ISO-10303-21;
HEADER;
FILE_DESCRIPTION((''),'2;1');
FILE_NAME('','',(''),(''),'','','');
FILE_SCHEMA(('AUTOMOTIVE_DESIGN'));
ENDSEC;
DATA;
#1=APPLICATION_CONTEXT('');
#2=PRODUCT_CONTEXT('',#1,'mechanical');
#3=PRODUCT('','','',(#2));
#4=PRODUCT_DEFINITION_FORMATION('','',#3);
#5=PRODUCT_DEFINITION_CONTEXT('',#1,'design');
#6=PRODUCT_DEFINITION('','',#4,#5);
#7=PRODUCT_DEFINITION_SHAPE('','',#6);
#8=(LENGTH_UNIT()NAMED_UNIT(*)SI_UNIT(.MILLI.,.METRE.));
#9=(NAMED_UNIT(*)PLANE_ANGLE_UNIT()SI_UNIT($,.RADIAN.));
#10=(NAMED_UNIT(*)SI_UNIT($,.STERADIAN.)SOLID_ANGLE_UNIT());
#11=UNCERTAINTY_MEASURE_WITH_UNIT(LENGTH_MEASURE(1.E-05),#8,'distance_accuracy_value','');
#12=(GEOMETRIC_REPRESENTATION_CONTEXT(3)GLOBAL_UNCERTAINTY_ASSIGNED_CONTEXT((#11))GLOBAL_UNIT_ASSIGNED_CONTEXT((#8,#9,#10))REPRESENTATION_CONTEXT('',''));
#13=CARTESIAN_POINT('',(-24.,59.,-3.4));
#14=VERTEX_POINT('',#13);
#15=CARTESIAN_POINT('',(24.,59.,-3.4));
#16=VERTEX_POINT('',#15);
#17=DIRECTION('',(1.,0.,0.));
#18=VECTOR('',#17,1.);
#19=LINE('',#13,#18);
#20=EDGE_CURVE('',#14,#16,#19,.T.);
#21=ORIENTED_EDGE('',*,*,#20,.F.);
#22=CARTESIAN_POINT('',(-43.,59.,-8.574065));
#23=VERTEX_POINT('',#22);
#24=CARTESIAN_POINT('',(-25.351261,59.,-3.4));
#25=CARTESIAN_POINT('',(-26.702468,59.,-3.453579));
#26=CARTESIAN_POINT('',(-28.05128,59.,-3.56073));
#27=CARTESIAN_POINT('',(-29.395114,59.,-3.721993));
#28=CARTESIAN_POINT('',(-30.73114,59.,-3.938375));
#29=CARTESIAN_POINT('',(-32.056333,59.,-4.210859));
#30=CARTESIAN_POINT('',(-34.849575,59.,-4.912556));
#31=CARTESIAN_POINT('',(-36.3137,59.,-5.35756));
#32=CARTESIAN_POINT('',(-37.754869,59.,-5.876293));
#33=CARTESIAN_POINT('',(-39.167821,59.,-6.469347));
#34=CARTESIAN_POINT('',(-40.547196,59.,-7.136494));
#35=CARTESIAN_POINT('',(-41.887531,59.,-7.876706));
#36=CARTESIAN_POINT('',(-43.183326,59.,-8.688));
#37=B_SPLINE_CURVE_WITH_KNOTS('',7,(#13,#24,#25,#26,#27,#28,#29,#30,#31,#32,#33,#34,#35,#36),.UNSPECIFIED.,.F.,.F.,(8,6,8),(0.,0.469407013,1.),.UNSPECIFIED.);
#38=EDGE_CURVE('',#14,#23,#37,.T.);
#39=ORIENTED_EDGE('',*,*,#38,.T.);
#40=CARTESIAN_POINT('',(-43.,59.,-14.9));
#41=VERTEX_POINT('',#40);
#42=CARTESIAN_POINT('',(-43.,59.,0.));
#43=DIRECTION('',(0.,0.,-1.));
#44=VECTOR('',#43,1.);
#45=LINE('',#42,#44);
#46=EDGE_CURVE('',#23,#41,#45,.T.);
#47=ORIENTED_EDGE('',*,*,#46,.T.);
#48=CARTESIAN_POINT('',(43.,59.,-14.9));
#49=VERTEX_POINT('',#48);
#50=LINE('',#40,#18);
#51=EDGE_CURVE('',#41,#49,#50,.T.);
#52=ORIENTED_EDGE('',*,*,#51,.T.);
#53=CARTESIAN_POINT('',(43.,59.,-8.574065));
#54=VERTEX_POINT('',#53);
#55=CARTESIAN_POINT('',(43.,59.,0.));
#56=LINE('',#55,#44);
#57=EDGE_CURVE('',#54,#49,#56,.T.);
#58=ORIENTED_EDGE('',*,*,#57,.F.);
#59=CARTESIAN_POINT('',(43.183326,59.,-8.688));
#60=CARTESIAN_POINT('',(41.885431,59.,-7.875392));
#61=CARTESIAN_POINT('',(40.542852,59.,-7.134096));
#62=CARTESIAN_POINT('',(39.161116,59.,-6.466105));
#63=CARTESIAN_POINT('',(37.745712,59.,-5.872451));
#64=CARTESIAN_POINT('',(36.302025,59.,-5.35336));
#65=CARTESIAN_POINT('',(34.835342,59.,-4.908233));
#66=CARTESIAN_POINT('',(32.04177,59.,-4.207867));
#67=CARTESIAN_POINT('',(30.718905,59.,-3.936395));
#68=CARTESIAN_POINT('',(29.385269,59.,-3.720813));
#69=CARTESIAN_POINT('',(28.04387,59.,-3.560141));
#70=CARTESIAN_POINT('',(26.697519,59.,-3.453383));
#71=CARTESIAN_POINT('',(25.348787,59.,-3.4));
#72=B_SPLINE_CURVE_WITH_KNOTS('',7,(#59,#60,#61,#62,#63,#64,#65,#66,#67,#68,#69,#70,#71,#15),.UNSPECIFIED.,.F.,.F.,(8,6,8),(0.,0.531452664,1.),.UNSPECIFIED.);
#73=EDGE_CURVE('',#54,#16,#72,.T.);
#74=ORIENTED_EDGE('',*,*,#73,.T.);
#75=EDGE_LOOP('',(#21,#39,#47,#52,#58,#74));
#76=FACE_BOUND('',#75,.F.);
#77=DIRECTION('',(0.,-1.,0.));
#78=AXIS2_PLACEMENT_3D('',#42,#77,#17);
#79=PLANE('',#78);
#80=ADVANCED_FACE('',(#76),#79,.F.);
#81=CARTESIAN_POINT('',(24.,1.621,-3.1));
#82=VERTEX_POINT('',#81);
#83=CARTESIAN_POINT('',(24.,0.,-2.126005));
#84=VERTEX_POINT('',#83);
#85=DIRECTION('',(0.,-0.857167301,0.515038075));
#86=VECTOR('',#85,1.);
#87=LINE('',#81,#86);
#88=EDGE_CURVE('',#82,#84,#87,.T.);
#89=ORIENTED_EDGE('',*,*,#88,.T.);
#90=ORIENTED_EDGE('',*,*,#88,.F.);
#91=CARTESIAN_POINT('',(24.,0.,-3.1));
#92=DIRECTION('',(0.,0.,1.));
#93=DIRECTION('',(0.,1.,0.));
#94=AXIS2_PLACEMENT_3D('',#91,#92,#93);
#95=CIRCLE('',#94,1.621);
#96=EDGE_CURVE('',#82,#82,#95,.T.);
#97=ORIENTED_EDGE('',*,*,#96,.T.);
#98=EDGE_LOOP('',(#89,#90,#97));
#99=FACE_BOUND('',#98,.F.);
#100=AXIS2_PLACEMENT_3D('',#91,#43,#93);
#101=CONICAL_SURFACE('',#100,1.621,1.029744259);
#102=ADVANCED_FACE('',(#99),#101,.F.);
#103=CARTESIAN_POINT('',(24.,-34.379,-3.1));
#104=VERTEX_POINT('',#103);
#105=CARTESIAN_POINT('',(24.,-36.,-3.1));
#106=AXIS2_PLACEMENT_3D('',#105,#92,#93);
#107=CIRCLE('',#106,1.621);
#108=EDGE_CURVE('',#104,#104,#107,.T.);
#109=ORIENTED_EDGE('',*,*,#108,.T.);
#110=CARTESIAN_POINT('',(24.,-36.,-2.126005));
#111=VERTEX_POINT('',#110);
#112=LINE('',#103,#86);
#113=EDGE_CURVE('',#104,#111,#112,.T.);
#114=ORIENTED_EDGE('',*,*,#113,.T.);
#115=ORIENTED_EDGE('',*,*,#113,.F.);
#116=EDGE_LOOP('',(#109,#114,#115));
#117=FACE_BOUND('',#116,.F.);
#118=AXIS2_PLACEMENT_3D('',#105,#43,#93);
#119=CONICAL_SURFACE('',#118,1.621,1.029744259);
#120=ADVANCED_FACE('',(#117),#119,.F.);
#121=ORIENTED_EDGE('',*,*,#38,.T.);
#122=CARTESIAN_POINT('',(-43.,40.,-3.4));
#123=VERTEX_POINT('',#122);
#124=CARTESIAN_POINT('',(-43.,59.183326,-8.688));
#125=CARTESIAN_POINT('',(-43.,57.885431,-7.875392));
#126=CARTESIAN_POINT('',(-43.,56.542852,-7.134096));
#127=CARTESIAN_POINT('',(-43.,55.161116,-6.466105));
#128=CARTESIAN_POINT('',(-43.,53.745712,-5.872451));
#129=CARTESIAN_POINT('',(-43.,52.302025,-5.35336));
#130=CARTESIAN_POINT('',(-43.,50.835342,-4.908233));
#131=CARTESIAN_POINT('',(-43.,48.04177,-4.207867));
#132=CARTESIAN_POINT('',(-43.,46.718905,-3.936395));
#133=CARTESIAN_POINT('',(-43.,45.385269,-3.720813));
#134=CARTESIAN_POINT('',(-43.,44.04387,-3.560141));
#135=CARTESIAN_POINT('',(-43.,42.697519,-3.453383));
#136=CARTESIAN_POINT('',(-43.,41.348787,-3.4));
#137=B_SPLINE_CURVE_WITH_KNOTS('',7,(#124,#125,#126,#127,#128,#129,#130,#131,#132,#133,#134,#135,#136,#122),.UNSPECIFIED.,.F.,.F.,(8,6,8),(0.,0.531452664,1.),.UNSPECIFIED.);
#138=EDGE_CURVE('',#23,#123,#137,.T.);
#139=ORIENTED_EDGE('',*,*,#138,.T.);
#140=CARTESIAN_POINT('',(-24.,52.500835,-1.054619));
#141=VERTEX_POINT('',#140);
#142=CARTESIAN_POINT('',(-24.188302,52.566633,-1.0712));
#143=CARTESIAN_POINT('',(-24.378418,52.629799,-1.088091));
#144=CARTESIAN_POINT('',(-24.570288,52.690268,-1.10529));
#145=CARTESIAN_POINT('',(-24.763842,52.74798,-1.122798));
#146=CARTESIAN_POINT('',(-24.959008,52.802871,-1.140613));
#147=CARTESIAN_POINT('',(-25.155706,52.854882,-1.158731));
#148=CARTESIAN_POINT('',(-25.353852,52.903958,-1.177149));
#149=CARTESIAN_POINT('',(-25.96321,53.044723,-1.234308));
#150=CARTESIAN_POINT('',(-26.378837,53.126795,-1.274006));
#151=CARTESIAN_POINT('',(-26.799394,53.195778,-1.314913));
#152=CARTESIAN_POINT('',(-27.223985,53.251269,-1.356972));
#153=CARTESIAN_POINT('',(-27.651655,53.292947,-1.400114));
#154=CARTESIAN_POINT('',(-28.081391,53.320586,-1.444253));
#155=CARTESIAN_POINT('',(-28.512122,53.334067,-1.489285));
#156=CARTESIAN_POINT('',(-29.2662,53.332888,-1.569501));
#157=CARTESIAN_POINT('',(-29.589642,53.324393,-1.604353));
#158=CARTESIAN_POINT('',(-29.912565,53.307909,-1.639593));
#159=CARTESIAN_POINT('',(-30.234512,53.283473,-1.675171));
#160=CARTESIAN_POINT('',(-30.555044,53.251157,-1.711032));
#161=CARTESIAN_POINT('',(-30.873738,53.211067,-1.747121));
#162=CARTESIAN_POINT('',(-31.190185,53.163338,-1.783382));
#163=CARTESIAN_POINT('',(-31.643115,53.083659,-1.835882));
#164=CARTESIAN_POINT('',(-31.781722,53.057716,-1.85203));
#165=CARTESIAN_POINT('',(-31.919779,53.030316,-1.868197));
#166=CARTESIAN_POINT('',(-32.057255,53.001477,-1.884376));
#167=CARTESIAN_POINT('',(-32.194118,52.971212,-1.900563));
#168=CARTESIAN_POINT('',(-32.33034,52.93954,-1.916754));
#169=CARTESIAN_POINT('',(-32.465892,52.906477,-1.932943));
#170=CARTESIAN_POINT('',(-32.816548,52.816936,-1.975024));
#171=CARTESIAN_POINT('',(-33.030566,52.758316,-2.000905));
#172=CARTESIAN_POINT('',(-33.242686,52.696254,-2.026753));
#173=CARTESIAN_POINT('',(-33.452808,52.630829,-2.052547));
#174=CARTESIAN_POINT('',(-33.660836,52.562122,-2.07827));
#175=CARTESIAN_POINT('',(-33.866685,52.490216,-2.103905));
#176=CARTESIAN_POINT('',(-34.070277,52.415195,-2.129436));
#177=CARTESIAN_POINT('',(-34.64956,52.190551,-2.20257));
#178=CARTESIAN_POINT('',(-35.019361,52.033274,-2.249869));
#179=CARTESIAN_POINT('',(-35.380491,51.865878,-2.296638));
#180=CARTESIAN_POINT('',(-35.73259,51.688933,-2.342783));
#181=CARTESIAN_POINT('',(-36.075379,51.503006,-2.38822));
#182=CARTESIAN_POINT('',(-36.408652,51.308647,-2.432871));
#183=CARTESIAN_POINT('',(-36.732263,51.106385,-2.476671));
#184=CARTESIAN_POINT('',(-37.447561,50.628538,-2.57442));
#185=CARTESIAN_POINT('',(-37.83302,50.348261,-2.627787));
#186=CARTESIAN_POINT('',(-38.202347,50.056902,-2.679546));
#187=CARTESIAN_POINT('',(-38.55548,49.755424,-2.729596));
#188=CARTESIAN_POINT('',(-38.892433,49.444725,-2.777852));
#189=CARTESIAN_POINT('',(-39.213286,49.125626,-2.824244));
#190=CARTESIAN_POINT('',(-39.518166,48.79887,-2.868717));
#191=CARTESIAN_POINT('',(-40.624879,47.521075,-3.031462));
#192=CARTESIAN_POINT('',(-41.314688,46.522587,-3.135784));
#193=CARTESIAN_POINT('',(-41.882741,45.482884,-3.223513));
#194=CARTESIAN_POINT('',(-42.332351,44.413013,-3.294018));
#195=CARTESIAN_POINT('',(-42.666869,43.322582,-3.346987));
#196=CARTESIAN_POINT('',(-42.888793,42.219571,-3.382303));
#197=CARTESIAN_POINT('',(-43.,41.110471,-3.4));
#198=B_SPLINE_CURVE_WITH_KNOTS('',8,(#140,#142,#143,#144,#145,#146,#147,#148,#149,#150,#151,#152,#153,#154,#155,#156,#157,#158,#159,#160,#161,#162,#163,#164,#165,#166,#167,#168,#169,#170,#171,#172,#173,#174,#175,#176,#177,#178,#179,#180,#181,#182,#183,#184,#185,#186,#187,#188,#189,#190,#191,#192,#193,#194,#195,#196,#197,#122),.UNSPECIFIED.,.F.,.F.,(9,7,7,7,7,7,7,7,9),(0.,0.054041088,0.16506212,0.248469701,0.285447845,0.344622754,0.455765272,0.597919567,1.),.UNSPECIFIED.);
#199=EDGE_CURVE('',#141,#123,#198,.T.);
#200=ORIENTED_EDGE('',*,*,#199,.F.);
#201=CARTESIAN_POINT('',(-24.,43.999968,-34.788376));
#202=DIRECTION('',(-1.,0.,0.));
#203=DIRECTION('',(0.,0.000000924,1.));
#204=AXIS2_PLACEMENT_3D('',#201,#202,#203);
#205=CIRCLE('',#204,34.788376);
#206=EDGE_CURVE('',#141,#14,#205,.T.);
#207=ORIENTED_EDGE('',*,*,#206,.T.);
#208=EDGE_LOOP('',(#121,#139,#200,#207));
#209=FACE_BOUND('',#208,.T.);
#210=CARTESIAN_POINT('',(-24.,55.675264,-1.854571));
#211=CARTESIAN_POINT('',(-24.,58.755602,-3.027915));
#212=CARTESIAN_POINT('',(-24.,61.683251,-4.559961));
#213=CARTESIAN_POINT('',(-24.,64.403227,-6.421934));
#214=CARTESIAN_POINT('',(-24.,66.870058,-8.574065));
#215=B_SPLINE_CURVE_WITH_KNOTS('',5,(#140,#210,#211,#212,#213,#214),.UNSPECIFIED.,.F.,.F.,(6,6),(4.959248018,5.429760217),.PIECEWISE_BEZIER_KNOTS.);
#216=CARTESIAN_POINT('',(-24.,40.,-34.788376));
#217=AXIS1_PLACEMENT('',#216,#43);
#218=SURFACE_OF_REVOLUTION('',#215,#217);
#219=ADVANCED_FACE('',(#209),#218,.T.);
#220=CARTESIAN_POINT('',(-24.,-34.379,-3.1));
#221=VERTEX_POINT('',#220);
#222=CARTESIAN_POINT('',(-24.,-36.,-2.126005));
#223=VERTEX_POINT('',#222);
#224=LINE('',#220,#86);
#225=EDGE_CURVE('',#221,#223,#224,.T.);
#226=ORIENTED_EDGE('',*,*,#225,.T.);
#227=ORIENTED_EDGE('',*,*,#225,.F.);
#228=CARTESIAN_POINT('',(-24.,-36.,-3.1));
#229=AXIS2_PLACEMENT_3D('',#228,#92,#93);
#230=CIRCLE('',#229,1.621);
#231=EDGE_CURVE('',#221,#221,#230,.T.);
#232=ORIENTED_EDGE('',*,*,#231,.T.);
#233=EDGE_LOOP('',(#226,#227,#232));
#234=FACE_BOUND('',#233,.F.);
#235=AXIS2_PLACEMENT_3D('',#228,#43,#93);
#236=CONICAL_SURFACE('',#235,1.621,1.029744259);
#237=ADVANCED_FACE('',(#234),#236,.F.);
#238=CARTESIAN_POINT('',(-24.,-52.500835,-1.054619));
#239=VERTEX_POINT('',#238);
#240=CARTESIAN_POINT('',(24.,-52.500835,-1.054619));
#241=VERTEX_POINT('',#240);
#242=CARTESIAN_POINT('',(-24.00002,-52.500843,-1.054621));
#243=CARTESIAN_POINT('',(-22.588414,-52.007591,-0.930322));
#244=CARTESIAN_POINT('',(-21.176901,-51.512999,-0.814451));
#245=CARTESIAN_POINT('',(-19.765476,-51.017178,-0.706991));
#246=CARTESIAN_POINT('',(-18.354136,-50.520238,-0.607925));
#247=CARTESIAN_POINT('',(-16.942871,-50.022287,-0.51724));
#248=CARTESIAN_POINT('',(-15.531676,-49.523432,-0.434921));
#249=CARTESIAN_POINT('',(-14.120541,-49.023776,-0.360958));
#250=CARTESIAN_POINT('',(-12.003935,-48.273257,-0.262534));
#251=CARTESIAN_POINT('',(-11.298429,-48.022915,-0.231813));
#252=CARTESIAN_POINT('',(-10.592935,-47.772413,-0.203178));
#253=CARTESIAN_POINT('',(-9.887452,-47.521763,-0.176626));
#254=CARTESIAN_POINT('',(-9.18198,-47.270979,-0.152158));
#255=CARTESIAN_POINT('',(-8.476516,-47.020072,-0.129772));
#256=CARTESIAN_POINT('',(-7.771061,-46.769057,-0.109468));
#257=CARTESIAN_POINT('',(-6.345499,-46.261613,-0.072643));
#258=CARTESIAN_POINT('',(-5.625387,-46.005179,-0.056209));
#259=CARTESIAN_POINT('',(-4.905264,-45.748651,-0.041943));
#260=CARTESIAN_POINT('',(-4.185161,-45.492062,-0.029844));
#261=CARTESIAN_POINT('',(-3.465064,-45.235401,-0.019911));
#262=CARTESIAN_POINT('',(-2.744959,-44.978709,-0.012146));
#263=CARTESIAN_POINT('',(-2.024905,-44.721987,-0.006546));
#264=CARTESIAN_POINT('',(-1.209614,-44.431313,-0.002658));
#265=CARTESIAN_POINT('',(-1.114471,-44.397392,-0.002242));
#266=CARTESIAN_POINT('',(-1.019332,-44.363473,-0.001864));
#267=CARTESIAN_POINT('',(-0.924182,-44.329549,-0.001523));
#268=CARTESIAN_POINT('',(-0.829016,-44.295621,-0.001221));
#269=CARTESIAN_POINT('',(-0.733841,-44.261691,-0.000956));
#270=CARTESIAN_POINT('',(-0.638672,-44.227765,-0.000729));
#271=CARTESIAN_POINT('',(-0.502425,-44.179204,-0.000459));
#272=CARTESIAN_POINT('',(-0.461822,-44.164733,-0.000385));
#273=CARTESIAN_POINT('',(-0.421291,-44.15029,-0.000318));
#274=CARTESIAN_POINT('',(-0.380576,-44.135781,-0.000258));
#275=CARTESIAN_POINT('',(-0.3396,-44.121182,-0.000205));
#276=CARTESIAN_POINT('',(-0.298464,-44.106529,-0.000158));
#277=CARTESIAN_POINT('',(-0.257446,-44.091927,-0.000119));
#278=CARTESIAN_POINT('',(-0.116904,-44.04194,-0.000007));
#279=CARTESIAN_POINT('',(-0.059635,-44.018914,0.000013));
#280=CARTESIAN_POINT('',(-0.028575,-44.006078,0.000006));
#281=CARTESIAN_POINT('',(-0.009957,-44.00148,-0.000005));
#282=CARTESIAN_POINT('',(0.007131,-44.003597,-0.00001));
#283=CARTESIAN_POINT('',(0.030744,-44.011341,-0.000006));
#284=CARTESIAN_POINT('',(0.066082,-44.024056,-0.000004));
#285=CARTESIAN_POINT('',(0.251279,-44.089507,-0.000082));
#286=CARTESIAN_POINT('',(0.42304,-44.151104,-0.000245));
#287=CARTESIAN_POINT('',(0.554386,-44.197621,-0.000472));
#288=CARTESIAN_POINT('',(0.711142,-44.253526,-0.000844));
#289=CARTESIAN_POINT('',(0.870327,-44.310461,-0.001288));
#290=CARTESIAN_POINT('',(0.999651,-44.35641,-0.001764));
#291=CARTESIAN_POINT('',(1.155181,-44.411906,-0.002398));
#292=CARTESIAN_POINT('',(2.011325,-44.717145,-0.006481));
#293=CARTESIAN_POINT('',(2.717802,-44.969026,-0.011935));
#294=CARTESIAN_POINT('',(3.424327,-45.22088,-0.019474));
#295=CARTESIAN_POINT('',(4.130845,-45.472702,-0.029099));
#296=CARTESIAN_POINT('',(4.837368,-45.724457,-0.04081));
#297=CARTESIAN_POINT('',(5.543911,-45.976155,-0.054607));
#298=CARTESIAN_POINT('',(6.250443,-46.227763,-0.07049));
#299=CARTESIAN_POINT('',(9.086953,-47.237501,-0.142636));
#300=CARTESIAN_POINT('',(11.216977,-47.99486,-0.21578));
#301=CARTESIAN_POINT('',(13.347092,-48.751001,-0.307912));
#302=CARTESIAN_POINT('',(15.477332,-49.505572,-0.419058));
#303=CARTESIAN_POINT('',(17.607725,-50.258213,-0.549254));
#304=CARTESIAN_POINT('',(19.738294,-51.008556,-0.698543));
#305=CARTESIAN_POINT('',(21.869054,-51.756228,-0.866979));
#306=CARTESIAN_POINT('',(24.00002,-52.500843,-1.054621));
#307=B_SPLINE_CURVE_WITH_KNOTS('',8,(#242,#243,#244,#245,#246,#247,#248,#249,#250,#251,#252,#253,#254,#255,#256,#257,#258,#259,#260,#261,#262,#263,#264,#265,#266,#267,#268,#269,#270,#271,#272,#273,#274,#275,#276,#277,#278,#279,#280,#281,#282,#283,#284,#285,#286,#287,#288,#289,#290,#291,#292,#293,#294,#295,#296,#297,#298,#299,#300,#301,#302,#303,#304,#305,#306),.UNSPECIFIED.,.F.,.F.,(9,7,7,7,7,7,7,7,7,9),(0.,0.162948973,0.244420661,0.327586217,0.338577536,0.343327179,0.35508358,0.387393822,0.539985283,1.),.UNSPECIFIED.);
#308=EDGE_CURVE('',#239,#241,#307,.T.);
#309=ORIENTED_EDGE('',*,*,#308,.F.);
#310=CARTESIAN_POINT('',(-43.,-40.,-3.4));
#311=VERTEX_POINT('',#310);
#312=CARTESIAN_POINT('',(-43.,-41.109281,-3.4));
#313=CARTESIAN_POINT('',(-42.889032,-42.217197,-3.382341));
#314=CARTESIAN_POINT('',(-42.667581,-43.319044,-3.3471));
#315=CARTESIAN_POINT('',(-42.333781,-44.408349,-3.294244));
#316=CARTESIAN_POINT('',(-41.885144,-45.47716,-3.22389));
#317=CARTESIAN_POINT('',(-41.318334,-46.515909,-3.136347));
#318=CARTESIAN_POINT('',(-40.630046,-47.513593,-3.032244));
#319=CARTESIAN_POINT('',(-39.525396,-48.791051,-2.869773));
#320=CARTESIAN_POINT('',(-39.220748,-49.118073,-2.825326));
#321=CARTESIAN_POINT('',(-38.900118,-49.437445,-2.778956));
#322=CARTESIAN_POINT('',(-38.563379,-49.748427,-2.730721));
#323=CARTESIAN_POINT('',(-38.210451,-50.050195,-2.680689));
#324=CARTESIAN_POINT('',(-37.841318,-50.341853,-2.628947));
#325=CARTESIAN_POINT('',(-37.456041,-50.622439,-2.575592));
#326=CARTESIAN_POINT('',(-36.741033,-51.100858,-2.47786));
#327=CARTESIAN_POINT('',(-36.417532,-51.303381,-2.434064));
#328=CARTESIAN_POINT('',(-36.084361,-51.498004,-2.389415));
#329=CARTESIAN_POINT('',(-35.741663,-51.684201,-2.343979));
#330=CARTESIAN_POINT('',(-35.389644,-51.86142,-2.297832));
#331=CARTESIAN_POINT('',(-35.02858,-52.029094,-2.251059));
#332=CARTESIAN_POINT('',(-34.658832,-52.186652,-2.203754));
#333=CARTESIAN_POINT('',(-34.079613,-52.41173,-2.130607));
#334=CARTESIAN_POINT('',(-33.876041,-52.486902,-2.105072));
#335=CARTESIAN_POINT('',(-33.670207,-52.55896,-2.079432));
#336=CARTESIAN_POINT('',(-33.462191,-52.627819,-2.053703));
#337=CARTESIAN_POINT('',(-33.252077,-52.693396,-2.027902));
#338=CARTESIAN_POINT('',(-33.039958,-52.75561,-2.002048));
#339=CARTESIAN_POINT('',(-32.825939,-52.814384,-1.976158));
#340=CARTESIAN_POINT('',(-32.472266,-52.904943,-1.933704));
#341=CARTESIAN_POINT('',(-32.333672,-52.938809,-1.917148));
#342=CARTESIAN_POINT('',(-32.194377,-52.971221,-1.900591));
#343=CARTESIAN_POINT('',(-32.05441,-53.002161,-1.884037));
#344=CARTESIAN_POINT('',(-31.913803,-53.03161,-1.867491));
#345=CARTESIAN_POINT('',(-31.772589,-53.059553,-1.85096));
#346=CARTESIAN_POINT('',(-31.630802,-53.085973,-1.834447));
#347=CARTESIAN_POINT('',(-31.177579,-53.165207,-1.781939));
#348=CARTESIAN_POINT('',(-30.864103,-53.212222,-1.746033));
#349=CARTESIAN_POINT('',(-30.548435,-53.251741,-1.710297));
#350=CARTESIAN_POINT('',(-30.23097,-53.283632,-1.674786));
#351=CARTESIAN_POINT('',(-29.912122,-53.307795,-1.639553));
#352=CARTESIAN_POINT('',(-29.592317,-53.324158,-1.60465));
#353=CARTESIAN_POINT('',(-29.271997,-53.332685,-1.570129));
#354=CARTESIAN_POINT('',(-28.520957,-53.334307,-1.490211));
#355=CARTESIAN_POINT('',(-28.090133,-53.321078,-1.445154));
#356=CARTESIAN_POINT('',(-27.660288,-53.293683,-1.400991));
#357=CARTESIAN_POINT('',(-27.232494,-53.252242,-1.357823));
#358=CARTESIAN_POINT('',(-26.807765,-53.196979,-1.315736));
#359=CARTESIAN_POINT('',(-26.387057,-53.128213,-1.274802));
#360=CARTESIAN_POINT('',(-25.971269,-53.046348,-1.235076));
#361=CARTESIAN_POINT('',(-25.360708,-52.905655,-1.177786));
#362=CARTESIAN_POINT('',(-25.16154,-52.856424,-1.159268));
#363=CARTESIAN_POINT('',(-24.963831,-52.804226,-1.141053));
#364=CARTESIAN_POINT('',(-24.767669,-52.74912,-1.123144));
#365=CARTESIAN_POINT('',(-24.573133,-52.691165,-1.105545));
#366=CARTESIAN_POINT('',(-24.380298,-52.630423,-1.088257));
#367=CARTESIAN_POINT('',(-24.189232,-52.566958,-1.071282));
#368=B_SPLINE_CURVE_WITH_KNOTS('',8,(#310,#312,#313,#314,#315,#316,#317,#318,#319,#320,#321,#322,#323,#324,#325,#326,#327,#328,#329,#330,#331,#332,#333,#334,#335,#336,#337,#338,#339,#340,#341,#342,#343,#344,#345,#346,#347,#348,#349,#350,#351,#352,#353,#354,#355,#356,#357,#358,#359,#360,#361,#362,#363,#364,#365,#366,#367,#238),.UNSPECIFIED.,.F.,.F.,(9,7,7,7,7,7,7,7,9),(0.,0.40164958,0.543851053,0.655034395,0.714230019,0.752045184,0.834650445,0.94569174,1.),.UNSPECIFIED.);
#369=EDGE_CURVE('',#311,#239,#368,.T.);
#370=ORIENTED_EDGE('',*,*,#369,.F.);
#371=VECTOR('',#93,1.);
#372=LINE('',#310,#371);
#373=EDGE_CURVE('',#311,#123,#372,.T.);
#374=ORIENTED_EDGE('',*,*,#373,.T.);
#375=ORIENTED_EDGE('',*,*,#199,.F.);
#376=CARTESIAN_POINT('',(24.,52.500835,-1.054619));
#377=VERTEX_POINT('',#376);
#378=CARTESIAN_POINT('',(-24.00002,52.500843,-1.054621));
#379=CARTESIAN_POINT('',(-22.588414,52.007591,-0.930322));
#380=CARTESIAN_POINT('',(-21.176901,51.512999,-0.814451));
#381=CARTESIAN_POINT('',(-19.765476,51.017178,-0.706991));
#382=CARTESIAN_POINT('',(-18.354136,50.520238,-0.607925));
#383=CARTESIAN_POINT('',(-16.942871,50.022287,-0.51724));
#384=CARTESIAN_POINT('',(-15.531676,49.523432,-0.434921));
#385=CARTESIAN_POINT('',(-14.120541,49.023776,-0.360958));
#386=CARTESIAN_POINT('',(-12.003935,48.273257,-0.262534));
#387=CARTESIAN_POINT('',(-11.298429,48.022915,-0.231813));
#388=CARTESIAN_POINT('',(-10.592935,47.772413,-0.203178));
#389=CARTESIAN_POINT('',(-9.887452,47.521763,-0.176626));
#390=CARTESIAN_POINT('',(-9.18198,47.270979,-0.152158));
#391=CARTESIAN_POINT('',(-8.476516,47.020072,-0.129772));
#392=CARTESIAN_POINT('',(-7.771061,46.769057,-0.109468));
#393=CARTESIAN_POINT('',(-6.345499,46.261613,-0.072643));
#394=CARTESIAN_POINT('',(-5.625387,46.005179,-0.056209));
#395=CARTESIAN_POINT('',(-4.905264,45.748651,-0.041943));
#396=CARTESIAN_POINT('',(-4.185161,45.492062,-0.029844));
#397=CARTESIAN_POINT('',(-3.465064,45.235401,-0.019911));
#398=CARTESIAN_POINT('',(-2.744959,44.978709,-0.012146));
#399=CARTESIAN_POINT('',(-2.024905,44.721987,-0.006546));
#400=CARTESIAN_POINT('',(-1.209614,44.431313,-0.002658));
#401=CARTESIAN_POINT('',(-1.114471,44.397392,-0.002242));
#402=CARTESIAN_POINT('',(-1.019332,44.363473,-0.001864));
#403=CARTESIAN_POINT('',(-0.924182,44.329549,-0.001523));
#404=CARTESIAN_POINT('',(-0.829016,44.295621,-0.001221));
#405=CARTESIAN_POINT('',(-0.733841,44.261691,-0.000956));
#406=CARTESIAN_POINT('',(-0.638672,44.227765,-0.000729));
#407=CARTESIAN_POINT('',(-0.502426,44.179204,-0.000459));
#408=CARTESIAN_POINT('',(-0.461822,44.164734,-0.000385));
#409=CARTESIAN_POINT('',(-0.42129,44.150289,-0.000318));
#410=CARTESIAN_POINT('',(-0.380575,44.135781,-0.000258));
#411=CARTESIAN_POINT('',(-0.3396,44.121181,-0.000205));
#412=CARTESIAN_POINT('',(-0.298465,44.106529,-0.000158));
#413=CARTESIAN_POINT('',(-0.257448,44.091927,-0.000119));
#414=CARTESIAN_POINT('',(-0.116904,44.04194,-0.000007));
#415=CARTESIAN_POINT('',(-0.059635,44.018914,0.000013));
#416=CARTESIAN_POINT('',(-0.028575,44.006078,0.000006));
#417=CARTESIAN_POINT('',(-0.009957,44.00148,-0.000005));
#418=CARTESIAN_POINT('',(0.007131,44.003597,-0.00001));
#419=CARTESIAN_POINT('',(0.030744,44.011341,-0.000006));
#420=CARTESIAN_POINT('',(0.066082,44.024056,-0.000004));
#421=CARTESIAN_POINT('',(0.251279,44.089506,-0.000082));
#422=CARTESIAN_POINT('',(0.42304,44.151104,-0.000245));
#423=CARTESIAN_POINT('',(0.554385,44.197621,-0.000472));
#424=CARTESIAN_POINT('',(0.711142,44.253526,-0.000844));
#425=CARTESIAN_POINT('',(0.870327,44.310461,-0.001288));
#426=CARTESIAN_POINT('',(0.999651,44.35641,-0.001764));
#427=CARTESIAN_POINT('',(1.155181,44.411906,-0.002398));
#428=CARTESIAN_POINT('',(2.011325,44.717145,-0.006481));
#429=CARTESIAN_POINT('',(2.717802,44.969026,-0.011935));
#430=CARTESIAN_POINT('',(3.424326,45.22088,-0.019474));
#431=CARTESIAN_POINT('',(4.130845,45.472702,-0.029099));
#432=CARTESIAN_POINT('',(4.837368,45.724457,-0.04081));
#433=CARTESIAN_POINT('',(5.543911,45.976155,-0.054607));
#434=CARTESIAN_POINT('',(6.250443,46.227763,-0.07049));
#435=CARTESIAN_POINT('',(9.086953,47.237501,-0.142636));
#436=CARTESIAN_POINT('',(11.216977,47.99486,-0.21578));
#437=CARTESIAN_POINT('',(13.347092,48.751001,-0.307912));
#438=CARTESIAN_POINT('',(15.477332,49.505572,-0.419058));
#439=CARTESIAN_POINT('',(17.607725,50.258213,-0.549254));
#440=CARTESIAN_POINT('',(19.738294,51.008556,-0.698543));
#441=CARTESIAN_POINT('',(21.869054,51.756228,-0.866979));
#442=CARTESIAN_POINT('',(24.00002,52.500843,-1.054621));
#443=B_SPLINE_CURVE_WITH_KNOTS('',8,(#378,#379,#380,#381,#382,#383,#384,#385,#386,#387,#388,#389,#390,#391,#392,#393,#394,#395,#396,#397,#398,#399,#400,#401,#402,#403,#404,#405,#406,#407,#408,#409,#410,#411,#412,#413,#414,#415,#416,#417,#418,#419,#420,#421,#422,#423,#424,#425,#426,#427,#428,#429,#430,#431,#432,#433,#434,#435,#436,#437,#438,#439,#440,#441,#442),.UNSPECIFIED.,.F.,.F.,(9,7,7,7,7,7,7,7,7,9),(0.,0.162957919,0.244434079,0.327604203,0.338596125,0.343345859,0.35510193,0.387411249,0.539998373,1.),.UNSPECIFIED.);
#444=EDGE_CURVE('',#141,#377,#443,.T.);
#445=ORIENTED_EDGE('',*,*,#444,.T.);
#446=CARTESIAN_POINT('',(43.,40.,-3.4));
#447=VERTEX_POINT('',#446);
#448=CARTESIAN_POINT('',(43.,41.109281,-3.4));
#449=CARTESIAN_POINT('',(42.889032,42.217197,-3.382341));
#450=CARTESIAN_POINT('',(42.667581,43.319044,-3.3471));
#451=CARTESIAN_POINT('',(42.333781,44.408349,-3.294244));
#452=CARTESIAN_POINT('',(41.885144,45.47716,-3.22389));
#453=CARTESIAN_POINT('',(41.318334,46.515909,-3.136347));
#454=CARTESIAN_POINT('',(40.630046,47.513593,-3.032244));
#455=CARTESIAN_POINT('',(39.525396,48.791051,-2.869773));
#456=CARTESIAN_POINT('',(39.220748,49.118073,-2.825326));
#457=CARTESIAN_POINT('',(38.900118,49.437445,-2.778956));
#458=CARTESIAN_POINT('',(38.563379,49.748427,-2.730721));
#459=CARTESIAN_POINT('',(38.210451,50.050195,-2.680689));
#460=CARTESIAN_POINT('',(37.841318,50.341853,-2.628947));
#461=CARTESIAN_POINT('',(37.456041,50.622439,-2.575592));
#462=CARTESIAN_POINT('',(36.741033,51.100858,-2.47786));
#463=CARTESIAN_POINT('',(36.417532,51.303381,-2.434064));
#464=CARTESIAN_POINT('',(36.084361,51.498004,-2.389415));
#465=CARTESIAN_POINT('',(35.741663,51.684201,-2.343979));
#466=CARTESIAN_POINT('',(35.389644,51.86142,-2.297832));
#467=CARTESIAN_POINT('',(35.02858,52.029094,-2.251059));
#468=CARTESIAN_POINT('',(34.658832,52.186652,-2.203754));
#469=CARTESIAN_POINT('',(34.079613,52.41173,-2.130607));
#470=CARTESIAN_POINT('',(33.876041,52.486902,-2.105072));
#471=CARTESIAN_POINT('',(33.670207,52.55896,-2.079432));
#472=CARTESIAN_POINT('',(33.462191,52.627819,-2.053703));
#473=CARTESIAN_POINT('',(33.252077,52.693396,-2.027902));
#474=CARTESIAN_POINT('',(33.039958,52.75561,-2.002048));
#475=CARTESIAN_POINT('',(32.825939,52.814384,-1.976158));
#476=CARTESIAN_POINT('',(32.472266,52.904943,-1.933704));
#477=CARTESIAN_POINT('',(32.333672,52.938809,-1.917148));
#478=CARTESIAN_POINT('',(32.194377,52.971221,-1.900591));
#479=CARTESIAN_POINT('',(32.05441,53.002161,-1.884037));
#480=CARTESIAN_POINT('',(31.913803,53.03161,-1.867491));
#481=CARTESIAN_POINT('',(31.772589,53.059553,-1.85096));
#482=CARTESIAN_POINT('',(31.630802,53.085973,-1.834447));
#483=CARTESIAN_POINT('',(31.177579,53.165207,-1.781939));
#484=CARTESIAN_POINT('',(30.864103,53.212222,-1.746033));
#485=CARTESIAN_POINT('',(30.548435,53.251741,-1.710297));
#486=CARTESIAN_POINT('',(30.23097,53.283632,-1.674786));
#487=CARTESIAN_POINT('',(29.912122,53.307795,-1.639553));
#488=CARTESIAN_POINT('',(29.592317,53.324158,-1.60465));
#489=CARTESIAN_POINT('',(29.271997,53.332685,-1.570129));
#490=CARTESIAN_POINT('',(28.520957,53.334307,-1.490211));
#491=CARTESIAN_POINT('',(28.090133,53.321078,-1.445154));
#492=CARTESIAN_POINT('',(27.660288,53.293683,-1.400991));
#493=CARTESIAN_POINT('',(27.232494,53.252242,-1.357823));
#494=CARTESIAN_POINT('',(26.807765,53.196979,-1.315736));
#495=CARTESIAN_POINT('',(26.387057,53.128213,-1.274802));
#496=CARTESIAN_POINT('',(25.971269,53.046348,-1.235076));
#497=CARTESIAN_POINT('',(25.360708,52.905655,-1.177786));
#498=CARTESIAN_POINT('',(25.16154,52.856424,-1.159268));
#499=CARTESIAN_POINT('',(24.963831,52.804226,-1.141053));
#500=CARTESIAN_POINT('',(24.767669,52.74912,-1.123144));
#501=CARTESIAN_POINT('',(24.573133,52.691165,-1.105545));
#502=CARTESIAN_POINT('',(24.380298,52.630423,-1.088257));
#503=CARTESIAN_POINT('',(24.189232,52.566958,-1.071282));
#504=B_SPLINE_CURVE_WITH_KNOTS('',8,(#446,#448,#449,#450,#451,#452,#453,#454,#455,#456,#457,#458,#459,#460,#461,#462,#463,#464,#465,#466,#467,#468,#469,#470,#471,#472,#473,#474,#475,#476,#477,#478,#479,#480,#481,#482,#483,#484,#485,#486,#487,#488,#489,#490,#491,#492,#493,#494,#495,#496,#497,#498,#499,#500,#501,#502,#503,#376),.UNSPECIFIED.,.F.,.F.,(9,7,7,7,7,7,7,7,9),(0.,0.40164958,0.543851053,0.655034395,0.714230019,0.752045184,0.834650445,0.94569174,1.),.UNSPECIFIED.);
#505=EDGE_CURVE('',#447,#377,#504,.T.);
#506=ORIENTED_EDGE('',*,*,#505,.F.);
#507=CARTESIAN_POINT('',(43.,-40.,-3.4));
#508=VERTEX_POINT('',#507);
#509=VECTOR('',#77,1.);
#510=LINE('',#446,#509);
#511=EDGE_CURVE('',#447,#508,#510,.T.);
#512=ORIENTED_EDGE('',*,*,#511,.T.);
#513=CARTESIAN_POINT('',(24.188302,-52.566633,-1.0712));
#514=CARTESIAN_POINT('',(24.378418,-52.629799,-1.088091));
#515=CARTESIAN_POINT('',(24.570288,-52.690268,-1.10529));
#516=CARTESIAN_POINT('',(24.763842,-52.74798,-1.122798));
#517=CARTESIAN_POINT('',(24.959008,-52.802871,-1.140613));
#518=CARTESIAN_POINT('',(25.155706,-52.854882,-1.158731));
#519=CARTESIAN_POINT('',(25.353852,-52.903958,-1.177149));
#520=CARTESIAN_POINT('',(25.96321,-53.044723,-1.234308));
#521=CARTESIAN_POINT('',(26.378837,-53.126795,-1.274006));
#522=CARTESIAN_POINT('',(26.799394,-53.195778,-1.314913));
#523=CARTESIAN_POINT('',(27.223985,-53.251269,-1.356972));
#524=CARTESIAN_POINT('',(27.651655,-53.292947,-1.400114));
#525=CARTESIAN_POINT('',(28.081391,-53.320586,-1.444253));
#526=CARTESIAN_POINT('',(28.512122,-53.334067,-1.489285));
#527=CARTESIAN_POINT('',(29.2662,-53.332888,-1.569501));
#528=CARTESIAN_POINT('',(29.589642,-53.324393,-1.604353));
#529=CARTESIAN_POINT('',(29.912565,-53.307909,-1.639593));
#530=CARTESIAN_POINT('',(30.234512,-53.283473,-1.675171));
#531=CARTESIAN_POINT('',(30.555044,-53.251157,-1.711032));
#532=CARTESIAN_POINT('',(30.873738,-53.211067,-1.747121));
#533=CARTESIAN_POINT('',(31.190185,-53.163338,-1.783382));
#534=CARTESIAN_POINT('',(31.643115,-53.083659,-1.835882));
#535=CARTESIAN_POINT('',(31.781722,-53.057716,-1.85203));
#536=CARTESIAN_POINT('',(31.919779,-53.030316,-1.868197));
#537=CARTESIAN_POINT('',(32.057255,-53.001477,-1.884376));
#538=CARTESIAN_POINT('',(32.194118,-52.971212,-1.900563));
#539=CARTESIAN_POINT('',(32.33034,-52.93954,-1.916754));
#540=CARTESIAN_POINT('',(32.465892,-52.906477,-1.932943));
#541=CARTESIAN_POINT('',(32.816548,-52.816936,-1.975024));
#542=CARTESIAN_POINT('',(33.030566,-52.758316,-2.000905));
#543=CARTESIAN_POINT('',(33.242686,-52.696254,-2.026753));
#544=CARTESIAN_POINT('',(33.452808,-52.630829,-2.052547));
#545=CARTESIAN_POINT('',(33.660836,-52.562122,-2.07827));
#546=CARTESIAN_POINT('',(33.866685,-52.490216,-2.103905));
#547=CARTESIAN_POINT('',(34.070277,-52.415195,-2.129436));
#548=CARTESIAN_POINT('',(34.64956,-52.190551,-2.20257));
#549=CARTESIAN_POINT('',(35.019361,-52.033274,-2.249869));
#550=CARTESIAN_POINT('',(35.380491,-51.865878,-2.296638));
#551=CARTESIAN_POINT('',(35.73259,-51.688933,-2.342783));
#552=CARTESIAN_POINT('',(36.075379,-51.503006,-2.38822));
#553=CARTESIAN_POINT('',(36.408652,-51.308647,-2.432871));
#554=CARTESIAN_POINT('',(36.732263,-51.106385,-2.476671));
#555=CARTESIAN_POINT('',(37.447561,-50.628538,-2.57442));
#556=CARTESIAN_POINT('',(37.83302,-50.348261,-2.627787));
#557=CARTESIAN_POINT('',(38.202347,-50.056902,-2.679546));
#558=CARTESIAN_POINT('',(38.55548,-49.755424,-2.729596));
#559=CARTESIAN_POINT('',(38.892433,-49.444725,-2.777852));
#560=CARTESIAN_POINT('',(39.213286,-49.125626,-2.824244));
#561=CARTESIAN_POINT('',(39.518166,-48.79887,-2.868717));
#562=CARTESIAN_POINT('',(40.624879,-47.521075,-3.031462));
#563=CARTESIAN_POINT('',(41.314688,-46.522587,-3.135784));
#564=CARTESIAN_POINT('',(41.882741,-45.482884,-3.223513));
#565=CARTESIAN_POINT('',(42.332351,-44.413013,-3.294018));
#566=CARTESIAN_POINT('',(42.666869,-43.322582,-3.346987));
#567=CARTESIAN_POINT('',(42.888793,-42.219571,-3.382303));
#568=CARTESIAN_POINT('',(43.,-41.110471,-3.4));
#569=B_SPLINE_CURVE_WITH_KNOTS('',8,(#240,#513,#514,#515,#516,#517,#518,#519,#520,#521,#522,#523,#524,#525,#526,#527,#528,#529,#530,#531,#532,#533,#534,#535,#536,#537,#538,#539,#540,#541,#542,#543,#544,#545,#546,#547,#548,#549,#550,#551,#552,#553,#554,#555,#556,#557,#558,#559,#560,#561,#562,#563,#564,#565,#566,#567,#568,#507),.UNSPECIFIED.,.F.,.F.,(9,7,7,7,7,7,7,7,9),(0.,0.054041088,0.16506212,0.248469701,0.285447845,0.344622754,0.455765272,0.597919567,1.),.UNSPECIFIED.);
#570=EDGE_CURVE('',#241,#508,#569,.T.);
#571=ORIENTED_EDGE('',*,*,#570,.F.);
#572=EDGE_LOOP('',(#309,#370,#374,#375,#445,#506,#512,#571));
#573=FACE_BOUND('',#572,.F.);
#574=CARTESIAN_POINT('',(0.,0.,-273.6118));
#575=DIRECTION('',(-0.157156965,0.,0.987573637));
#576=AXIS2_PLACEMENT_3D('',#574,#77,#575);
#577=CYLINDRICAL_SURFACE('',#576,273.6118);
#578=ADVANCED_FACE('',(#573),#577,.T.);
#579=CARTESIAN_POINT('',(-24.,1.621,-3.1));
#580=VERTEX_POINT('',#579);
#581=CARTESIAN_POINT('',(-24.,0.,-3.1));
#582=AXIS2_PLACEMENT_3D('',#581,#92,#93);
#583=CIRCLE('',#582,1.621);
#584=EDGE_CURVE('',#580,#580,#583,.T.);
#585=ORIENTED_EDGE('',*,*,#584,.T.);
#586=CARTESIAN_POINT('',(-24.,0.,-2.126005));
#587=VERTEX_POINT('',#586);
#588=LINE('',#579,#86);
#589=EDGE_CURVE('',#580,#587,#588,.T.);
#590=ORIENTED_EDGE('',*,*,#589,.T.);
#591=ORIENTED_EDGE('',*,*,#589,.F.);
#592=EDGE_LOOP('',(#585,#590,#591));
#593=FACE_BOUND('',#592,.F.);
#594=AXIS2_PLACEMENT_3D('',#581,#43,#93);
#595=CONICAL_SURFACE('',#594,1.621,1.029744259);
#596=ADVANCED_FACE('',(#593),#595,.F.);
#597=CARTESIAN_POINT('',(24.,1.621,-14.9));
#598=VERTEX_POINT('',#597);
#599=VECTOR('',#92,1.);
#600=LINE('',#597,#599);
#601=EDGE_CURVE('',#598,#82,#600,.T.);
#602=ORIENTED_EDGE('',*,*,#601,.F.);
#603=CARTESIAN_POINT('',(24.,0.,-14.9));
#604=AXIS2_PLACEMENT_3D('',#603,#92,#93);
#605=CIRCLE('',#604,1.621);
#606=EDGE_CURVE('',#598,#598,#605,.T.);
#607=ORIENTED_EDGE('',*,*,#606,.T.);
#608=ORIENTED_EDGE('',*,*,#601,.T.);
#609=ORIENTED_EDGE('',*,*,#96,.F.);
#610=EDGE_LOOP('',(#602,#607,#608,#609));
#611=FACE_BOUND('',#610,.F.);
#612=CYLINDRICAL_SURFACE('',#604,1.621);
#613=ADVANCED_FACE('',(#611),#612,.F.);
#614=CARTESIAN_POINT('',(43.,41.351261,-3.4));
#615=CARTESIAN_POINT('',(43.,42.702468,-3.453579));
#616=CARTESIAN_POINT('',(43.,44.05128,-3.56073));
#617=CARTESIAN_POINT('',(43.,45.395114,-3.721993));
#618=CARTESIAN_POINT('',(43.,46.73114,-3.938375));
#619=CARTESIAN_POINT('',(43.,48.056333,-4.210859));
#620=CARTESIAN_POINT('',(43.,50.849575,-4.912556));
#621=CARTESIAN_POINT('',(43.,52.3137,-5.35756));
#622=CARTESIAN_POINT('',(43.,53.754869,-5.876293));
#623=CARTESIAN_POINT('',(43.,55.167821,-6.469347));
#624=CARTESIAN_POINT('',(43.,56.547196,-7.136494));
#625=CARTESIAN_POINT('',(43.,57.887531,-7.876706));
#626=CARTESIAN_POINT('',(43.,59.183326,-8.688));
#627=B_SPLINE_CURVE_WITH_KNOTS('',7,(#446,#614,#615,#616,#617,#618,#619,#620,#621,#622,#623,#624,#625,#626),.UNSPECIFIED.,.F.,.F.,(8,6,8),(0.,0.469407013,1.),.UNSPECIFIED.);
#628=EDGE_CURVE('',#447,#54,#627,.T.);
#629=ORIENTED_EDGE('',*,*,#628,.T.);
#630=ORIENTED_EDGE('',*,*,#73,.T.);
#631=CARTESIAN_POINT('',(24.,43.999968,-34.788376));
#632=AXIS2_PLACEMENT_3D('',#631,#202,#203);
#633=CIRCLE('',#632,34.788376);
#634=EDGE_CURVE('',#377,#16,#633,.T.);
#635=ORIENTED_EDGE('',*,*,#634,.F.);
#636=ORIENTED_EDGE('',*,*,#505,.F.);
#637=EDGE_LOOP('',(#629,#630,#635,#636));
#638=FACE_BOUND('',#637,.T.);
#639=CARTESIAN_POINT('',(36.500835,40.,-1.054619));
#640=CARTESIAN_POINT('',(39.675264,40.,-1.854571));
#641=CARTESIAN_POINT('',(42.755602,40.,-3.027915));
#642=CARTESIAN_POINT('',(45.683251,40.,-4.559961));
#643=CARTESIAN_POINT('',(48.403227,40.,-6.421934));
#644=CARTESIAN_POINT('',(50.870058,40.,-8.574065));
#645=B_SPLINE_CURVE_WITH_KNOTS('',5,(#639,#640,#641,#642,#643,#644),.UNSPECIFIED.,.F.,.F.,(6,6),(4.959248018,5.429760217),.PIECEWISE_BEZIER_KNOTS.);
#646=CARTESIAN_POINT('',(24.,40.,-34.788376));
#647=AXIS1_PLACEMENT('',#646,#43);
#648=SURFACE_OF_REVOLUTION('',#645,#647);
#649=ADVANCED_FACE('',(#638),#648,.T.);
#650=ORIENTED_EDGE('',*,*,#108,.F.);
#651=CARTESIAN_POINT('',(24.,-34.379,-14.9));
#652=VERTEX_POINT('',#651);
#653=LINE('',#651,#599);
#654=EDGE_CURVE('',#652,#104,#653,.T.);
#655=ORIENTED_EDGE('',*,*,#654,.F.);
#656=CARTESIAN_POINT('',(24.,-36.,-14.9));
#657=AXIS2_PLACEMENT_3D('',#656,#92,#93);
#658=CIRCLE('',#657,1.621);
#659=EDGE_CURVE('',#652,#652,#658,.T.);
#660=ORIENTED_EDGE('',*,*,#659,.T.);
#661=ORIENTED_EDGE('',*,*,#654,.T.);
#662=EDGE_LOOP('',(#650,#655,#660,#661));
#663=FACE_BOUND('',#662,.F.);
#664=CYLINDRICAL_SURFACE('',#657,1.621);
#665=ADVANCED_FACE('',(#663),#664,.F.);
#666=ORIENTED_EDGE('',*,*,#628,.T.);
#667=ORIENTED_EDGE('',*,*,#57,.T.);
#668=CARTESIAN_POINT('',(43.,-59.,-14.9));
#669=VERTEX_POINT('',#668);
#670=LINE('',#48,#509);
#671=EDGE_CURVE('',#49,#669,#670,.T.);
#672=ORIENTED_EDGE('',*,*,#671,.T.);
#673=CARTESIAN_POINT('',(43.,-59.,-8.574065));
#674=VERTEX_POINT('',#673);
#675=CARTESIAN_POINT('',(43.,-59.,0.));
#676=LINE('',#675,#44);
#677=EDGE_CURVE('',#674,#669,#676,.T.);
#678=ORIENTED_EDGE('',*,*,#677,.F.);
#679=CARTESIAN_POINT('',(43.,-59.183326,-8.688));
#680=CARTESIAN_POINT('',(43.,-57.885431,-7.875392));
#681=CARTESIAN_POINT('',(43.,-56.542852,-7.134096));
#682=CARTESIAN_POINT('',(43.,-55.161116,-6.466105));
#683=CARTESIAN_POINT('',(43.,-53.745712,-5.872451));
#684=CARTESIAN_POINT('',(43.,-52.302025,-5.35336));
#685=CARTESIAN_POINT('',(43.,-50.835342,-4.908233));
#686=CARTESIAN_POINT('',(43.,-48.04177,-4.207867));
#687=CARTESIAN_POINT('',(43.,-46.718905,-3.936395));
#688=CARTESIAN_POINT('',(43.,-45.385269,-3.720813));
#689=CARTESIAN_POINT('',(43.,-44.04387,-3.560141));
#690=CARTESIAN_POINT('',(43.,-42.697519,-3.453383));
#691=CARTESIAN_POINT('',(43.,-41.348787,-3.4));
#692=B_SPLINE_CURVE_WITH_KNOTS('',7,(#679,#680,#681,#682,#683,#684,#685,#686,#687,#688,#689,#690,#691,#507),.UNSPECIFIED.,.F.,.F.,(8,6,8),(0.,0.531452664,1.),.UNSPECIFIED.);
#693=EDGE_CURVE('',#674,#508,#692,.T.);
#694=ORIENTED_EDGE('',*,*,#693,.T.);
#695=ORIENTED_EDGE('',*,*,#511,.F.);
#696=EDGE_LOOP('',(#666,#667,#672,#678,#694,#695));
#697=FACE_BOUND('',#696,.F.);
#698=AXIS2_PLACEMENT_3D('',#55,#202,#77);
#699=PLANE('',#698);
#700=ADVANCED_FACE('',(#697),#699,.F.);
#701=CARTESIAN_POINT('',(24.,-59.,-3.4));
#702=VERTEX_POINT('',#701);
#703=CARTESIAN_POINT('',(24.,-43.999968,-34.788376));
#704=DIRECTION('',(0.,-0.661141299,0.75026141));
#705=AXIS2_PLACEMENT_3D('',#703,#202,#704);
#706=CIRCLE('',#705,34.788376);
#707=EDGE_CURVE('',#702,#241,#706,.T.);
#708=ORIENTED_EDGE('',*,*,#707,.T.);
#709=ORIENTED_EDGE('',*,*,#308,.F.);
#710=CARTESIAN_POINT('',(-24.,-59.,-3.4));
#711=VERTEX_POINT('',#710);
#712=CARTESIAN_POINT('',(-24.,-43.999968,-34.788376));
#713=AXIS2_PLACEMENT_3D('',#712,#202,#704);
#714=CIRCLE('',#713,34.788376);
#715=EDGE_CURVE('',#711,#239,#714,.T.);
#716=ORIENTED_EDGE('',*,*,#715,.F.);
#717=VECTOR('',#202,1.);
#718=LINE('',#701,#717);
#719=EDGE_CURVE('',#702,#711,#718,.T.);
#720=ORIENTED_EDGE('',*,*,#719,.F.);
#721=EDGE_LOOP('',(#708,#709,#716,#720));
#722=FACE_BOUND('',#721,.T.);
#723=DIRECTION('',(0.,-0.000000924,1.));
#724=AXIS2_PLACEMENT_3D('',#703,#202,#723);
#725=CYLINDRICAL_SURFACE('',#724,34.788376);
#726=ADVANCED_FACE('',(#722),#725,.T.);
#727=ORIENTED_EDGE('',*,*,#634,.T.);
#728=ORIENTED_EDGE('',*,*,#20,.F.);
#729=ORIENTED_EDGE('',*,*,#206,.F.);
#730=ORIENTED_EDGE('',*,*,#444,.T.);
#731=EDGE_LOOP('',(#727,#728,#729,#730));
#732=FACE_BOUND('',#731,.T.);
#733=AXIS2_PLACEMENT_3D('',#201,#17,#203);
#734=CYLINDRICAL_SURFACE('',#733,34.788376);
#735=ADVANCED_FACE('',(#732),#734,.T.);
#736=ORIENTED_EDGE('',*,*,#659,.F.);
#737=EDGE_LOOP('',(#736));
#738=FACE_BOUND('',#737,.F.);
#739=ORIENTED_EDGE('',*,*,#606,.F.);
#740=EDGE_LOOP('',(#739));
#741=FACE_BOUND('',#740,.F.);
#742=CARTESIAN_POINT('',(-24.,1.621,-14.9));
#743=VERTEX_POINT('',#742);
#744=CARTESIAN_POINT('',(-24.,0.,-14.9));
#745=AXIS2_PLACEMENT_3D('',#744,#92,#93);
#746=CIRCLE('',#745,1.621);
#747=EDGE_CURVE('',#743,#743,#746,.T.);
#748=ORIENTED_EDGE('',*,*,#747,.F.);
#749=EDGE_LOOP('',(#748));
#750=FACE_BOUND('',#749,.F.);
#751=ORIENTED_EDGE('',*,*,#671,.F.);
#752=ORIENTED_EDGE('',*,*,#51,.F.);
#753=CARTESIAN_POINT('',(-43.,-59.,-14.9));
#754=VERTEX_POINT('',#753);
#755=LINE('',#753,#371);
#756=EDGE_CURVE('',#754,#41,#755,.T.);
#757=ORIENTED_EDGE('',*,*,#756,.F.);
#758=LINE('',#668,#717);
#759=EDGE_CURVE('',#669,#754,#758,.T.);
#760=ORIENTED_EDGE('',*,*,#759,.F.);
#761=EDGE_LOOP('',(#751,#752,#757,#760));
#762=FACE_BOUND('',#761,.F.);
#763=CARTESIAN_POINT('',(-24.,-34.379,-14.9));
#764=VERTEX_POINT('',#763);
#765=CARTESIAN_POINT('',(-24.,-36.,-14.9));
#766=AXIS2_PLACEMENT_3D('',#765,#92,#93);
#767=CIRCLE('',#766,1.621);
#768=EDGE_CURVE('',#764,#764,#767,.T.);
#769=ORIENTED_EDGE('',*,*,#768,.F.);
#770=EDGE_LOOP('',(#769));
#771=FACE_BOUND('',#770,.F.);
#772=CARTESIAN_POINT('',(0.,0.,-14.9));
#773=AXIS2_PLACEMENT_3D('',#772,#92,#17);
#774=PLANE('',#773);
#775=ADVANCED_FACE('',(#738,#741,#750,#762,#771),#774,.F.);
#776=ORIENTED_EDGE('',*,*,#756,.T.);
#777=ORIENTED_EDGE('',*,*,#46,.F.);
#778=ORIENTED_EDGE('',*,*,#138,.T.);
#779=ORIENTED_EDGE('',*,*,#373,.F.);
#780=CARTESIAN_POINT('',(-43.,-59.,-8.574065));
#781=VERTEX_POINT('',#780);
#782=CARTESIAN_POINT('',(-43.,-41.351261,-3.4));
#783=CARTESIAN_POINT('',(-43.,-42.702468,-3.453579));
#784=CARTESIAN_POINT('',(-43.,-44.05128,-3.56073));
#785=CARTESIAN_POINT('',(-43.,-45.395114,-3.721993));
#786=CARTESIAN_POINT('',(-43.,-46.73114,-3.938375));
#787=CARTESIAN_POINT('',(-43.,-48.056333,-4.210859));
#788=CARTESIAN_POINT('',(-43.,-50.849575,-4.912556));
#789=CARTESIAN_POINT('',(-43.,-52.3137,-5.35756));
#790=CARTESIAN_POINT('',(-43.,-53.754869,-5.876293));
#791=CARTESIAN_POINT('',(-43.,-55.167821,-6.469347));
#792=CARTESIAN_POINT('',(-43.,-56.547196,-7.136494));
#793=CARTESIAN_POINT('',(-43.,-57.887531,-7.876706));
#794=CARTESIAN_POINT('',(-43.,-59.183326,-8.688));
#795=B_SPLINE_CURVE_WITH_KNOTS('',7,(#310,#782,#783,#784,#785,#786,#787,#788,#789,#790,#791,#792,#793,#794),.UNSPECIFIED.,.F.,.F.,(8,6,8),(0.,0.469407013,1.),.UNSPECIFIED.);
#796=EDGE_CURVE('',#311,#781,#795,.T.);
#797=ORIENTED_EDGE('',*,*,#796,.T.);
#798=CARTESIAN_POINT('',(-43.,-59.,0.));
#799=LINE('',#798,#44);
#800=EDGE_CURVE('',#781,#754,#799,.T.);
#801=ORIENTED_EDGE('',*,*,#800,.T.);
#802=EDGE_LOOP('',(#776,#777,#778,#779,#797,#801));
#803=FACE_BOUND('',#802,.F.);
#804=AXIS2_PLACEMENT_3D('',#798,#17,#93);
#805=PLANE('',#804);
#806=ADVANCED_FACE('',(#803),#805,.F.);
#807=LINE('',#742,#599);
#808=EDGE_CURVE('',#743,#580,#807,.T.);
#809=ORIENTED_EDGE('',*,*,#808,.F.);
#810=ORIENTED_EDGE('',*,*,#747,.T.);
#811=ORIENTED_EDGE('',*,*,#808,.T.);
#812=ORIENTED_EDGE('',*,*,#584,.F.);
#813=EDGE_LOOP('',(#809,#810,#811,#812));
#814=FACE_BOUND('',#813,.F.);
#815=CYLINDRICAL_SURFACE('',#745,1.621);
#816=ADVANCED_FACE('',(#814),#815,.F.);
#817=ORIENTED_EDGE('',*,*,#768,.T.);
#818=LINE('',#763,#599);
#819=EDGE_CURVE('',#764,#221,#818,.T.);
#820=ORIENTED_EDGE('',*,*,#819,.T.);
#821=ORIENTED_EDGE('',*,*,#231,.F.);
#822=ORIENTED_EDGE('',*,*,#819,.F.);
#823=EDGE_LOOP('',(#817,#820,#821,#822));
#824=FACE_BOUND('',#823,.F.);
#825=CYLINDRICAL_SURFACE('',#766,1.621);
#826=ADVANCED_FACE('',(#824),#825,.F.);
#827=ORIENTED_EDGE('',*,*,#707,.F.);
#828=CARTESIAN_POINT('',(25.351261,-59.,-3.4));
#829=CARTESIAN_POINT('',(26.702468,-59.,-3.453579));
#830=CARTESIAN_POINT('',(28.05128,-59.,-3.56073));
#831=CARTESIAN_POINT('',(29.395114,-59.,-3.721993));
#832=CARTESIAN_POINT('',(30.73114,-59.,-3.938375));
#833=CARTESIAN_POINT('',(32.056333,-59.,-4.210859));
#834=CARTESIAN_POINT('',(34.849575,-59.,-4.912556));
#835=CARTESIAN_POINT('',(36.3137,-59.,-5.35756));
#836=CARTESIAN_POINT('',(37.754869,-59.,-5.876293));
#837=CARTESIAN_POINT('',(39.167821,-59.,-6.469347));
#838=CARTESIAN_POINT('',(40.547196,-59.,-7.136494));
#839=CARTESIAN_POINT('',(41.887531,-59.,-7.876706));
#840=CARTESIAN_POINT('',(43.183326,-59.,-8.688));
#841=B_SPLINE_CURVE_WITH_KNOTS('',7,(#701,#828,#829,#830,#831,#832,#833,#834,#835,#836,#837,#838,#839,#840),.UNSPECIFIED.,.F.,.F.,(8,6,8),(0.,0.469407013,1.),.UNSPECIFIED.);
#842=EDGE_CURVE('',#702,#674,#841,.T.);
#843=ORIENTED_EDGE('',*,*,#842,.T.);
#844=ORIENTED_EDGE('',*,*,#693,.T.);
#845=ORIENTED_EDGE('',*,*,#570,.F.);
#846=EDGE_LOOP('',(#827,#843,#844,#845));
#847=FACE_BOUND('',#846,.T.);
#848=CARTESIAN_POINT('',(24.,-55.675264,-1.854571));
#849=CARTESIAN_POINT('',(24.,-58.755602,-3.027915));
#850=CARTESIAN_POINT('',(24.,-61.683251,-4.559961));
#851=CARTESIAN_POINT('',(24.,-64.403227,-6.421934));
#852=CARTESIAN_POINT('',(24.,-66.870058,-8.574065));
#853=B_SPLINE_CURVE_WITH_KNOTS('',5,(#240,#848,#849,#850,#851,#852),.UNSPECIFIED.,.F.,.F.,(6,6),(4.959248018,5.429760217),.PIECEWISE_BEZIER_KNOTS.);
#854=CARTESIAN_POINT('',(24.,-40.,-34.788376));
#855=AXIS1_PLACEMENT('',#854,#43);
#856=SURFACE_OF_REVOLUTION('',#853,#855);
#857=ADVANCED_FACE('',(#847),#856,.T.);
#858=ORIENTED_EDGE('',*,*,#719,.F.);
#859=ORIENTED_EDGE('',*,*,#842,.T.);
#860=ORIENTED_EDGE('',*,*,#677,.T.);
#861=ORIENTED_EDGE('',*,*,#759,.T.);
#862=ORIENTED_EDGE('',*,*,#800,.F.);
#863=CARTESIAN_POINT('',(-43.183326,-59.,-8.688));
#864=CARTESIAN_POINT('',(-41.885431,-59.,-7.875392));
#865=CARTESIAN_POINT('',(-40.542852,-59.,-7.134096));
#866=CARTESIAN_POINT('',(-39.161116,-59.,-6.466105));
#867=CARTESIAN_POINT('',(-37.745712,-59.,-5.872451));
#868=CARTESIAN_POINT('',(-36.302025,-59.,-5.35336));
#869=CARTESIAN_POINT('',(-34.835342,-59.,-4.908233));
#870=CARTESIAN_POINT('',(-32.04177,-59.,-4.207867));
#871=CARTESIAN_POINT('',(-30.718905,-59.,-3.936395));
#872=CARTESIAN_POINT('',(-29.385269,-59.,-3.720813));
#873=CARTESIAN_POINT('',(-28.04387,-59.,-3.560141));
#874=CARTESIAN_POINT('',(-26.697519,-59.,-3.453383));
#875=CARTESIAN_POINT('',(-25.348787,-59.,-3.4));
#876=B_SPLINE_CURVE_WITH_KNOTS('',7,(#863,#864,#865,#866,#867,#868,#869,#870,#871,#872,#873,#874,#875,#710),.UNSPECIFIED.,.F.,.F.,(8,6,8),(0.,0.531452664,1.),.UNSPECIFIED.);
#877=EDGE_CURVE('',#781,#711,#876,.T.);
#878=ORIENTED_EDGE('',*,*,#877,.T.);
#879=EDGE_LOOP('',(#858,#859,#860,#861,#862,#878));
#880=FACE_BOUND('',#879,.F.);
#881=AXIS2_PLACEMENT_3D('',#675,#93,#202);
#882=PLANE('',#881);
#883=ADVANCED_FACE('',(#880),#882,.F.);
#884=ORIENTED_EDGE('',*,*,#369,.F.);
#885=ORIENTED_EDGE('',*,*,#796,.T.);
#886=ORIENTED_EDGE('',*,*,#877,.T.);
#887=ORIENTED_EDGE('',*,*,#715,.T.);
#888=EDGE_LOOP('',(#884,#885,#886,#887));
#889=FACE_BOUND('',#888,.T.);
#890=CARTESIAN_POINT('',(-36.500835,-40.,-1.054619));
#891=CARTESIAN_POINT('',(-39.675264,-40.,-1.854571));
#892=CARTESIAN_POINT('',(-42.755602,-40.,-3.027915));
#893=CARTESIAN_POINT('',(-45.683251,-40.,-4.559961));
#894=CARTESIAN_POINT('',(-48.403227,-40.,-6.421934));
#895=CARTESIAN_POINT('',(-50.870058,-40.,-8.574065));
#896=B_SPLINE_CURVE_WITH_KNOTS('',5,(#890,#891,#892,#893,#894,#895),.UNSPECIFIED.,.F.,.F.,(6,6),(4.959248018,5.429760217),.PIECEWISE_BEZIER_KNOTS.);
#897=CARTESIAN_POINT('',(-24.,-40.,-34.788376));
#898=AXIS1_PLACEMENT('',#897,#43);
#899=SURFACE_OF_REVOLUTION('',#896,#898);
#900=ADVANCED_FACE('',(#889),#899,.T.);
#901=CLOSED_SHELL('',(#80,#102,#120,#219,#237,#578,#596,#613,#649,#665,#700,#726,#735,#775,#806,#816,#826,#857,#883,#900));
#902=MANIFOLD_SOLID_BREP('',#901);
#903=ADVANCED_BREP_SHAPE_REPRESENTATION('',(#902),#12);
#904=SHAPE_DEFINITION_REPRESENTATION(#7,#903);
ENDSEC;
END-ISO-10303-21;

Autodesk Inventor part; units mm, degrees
ref_plane "YZ Plane" through (0, 0, 0) normal (1, 0, 0) x (0, 1, 0)
ref_plane "XZ Plane" through (0, 0, 0) normal (0, 1, 0) x (-1, 0, 0)
ref_plane "XY Plane" through (0, 0, 0) normal (0, 0, 1) x (1, 0, 0)
sketch "Skizze1" plane through (0, 0, 0) normal (0, 0, 1) x (1, 0, 0)
  line L0 (-43, 59) -> (43, 59)
  line L1 (43, 59) -> (43, -59)
  line L2 (43, -59) -> (-43, -59)
  line L3 (-43, -59) -> (-43, 59)
  point P0 (0, 0)
  point P1 (0, 59)
  point P2 (-43, 0)
  dimension "d0" = 86
  dimension "d1" = 118
extrude "Extrusion1" add sketch "Skizze1" against normal blind 14.9
sketch "Skizze2" plane through (0, 0, -14.9) normal (0, 0, -1) x (-1, 0, 0)
  line L0 (-43, -59) -> (43, -59) projected
  point P0 (0, 0)
  point P1 (-24, 0)
  point P2 (24, 0)
  point P3 (24, -36)
  point P4 (-24, -36)
  dimension "d4" = 36
  dimension "d5" = 48
  dimension "d6" = 23
  dimension "d7" = 24
hole "Bohrung1" at (24, 0, -14.9) at (-24, 0, -14.9) at (-24, -36, -14.9) at (24, -36, -14.9) direction (0, 0, 1) diameter 3.242 depth 11.8 tip angle 118
sketch "Skizze3" plane through (0, 0, 0) normal (0, 0, 1) x (1, 0, 0)
  line L0 (-24, 44) -> (24, 44)
  line L1 (28, 40) -> (28, -40)
  line L2 (24, -44) -> (-24, -44)
  line L3 (-28, -40) -> (-28, 40)
  arc A0 (-28, -40) -> (-24, -44) centre (-24, -40) ccw
  arc A1 (-24, 44) -> (-28, 40) centre (-24, 40) ccw
  arc A2 (28, 40) -> (24, 44) centre (24, 40) ccw
  arc A3 (24, -44) -> (28, -40) centre (24, -40) ccw
  line L4 (43, -59) -> (43, 59) projected
  line L5 (-43, 59) -> (-43, -59) projected
  line L6 (43, 59) -> (-43, 59) projected
  line L7 (-43, -59) -> (43, -59) projected
  point P0 (0, 0)
  dimension "d15" = 4
  dimension "d16" = 15
  dimension "d17" = 15
  dimension "d18" = 15
  dimension "d19" = 15
sketch "Skizze4" plane through (0, 0, 0) normal (1, 0, 0) x (0, 1, 0)
  arc A0 (-44, 0) -> (-67, -8.688) centre (-44, -34.7882) ccw
  line L0 (59, 0) -> (-59, 0) projected
  line L1 (-44, 0) -> (-67, 0)
  line L2 (-67, 0) -> (-67, -8.688)
  line L3 (-59, 0) -> (-59, -14.9) projected
  line L4 (59, -14.9) -> (-59, -14.9) projected
  point P0 (0, 0)
  point P1 (-59, -3.4)
  dimension "d20" = 23
  dimension "d21" = 11.5
sweep "Sweeping1" cut profiles "Skizze4" path "Skizze3" path curves L2 A3 L1 A2 L0 A1 L3 A0
sketch "Skizze5" plane through (0, 0, 0) normal (0, 1, 0) x (-1, 0, 0)
  line L0 (24, 0) -> (-24, 0) projected
  line L1 (-43, -3.4) -> (-43, -8.5741) projected
  line L2 (-43, -8.5741) -> (-43, -14.9) projected
  line L3 (-43, -8.5741) -> (-43, -14.9) projected
  line L4 (-43, -8.5741) -> (-43, -3.4) projected
  line L5 (43, -8.5741) -> (43, -3.4) projected
  line L6 (43, -3.4) -> (43, -8.5741) projected
  line L7 (43, -8.5741) -> (43, -14.9) projected
  line L8 (43, -8.5741) -> (43, -14.9) projected
  arc A0 (43, -3.4) -> (-43, -3.4) centre (0, -273.6118) ccw
  line L9 (43, -3.4) -> (43, 1)
  line L10 (43, 1) -> (-43, 1)
  line L11 (-43, 1) -> (-43, -3.4)
  point P0 (0, 0)
  point P1 (43, -5.987)
  point P2 (-43, -5.987)
  dimension "d24" = 1
extrude "Extrusion2" cut sketch "Skizze5" along normal through all both and the other way through all
equation "\"d7\" = 0.5 * d5"
equation "\"d17\" = d16"
properties part number "kühlblock" material "Aluminium 6061"
